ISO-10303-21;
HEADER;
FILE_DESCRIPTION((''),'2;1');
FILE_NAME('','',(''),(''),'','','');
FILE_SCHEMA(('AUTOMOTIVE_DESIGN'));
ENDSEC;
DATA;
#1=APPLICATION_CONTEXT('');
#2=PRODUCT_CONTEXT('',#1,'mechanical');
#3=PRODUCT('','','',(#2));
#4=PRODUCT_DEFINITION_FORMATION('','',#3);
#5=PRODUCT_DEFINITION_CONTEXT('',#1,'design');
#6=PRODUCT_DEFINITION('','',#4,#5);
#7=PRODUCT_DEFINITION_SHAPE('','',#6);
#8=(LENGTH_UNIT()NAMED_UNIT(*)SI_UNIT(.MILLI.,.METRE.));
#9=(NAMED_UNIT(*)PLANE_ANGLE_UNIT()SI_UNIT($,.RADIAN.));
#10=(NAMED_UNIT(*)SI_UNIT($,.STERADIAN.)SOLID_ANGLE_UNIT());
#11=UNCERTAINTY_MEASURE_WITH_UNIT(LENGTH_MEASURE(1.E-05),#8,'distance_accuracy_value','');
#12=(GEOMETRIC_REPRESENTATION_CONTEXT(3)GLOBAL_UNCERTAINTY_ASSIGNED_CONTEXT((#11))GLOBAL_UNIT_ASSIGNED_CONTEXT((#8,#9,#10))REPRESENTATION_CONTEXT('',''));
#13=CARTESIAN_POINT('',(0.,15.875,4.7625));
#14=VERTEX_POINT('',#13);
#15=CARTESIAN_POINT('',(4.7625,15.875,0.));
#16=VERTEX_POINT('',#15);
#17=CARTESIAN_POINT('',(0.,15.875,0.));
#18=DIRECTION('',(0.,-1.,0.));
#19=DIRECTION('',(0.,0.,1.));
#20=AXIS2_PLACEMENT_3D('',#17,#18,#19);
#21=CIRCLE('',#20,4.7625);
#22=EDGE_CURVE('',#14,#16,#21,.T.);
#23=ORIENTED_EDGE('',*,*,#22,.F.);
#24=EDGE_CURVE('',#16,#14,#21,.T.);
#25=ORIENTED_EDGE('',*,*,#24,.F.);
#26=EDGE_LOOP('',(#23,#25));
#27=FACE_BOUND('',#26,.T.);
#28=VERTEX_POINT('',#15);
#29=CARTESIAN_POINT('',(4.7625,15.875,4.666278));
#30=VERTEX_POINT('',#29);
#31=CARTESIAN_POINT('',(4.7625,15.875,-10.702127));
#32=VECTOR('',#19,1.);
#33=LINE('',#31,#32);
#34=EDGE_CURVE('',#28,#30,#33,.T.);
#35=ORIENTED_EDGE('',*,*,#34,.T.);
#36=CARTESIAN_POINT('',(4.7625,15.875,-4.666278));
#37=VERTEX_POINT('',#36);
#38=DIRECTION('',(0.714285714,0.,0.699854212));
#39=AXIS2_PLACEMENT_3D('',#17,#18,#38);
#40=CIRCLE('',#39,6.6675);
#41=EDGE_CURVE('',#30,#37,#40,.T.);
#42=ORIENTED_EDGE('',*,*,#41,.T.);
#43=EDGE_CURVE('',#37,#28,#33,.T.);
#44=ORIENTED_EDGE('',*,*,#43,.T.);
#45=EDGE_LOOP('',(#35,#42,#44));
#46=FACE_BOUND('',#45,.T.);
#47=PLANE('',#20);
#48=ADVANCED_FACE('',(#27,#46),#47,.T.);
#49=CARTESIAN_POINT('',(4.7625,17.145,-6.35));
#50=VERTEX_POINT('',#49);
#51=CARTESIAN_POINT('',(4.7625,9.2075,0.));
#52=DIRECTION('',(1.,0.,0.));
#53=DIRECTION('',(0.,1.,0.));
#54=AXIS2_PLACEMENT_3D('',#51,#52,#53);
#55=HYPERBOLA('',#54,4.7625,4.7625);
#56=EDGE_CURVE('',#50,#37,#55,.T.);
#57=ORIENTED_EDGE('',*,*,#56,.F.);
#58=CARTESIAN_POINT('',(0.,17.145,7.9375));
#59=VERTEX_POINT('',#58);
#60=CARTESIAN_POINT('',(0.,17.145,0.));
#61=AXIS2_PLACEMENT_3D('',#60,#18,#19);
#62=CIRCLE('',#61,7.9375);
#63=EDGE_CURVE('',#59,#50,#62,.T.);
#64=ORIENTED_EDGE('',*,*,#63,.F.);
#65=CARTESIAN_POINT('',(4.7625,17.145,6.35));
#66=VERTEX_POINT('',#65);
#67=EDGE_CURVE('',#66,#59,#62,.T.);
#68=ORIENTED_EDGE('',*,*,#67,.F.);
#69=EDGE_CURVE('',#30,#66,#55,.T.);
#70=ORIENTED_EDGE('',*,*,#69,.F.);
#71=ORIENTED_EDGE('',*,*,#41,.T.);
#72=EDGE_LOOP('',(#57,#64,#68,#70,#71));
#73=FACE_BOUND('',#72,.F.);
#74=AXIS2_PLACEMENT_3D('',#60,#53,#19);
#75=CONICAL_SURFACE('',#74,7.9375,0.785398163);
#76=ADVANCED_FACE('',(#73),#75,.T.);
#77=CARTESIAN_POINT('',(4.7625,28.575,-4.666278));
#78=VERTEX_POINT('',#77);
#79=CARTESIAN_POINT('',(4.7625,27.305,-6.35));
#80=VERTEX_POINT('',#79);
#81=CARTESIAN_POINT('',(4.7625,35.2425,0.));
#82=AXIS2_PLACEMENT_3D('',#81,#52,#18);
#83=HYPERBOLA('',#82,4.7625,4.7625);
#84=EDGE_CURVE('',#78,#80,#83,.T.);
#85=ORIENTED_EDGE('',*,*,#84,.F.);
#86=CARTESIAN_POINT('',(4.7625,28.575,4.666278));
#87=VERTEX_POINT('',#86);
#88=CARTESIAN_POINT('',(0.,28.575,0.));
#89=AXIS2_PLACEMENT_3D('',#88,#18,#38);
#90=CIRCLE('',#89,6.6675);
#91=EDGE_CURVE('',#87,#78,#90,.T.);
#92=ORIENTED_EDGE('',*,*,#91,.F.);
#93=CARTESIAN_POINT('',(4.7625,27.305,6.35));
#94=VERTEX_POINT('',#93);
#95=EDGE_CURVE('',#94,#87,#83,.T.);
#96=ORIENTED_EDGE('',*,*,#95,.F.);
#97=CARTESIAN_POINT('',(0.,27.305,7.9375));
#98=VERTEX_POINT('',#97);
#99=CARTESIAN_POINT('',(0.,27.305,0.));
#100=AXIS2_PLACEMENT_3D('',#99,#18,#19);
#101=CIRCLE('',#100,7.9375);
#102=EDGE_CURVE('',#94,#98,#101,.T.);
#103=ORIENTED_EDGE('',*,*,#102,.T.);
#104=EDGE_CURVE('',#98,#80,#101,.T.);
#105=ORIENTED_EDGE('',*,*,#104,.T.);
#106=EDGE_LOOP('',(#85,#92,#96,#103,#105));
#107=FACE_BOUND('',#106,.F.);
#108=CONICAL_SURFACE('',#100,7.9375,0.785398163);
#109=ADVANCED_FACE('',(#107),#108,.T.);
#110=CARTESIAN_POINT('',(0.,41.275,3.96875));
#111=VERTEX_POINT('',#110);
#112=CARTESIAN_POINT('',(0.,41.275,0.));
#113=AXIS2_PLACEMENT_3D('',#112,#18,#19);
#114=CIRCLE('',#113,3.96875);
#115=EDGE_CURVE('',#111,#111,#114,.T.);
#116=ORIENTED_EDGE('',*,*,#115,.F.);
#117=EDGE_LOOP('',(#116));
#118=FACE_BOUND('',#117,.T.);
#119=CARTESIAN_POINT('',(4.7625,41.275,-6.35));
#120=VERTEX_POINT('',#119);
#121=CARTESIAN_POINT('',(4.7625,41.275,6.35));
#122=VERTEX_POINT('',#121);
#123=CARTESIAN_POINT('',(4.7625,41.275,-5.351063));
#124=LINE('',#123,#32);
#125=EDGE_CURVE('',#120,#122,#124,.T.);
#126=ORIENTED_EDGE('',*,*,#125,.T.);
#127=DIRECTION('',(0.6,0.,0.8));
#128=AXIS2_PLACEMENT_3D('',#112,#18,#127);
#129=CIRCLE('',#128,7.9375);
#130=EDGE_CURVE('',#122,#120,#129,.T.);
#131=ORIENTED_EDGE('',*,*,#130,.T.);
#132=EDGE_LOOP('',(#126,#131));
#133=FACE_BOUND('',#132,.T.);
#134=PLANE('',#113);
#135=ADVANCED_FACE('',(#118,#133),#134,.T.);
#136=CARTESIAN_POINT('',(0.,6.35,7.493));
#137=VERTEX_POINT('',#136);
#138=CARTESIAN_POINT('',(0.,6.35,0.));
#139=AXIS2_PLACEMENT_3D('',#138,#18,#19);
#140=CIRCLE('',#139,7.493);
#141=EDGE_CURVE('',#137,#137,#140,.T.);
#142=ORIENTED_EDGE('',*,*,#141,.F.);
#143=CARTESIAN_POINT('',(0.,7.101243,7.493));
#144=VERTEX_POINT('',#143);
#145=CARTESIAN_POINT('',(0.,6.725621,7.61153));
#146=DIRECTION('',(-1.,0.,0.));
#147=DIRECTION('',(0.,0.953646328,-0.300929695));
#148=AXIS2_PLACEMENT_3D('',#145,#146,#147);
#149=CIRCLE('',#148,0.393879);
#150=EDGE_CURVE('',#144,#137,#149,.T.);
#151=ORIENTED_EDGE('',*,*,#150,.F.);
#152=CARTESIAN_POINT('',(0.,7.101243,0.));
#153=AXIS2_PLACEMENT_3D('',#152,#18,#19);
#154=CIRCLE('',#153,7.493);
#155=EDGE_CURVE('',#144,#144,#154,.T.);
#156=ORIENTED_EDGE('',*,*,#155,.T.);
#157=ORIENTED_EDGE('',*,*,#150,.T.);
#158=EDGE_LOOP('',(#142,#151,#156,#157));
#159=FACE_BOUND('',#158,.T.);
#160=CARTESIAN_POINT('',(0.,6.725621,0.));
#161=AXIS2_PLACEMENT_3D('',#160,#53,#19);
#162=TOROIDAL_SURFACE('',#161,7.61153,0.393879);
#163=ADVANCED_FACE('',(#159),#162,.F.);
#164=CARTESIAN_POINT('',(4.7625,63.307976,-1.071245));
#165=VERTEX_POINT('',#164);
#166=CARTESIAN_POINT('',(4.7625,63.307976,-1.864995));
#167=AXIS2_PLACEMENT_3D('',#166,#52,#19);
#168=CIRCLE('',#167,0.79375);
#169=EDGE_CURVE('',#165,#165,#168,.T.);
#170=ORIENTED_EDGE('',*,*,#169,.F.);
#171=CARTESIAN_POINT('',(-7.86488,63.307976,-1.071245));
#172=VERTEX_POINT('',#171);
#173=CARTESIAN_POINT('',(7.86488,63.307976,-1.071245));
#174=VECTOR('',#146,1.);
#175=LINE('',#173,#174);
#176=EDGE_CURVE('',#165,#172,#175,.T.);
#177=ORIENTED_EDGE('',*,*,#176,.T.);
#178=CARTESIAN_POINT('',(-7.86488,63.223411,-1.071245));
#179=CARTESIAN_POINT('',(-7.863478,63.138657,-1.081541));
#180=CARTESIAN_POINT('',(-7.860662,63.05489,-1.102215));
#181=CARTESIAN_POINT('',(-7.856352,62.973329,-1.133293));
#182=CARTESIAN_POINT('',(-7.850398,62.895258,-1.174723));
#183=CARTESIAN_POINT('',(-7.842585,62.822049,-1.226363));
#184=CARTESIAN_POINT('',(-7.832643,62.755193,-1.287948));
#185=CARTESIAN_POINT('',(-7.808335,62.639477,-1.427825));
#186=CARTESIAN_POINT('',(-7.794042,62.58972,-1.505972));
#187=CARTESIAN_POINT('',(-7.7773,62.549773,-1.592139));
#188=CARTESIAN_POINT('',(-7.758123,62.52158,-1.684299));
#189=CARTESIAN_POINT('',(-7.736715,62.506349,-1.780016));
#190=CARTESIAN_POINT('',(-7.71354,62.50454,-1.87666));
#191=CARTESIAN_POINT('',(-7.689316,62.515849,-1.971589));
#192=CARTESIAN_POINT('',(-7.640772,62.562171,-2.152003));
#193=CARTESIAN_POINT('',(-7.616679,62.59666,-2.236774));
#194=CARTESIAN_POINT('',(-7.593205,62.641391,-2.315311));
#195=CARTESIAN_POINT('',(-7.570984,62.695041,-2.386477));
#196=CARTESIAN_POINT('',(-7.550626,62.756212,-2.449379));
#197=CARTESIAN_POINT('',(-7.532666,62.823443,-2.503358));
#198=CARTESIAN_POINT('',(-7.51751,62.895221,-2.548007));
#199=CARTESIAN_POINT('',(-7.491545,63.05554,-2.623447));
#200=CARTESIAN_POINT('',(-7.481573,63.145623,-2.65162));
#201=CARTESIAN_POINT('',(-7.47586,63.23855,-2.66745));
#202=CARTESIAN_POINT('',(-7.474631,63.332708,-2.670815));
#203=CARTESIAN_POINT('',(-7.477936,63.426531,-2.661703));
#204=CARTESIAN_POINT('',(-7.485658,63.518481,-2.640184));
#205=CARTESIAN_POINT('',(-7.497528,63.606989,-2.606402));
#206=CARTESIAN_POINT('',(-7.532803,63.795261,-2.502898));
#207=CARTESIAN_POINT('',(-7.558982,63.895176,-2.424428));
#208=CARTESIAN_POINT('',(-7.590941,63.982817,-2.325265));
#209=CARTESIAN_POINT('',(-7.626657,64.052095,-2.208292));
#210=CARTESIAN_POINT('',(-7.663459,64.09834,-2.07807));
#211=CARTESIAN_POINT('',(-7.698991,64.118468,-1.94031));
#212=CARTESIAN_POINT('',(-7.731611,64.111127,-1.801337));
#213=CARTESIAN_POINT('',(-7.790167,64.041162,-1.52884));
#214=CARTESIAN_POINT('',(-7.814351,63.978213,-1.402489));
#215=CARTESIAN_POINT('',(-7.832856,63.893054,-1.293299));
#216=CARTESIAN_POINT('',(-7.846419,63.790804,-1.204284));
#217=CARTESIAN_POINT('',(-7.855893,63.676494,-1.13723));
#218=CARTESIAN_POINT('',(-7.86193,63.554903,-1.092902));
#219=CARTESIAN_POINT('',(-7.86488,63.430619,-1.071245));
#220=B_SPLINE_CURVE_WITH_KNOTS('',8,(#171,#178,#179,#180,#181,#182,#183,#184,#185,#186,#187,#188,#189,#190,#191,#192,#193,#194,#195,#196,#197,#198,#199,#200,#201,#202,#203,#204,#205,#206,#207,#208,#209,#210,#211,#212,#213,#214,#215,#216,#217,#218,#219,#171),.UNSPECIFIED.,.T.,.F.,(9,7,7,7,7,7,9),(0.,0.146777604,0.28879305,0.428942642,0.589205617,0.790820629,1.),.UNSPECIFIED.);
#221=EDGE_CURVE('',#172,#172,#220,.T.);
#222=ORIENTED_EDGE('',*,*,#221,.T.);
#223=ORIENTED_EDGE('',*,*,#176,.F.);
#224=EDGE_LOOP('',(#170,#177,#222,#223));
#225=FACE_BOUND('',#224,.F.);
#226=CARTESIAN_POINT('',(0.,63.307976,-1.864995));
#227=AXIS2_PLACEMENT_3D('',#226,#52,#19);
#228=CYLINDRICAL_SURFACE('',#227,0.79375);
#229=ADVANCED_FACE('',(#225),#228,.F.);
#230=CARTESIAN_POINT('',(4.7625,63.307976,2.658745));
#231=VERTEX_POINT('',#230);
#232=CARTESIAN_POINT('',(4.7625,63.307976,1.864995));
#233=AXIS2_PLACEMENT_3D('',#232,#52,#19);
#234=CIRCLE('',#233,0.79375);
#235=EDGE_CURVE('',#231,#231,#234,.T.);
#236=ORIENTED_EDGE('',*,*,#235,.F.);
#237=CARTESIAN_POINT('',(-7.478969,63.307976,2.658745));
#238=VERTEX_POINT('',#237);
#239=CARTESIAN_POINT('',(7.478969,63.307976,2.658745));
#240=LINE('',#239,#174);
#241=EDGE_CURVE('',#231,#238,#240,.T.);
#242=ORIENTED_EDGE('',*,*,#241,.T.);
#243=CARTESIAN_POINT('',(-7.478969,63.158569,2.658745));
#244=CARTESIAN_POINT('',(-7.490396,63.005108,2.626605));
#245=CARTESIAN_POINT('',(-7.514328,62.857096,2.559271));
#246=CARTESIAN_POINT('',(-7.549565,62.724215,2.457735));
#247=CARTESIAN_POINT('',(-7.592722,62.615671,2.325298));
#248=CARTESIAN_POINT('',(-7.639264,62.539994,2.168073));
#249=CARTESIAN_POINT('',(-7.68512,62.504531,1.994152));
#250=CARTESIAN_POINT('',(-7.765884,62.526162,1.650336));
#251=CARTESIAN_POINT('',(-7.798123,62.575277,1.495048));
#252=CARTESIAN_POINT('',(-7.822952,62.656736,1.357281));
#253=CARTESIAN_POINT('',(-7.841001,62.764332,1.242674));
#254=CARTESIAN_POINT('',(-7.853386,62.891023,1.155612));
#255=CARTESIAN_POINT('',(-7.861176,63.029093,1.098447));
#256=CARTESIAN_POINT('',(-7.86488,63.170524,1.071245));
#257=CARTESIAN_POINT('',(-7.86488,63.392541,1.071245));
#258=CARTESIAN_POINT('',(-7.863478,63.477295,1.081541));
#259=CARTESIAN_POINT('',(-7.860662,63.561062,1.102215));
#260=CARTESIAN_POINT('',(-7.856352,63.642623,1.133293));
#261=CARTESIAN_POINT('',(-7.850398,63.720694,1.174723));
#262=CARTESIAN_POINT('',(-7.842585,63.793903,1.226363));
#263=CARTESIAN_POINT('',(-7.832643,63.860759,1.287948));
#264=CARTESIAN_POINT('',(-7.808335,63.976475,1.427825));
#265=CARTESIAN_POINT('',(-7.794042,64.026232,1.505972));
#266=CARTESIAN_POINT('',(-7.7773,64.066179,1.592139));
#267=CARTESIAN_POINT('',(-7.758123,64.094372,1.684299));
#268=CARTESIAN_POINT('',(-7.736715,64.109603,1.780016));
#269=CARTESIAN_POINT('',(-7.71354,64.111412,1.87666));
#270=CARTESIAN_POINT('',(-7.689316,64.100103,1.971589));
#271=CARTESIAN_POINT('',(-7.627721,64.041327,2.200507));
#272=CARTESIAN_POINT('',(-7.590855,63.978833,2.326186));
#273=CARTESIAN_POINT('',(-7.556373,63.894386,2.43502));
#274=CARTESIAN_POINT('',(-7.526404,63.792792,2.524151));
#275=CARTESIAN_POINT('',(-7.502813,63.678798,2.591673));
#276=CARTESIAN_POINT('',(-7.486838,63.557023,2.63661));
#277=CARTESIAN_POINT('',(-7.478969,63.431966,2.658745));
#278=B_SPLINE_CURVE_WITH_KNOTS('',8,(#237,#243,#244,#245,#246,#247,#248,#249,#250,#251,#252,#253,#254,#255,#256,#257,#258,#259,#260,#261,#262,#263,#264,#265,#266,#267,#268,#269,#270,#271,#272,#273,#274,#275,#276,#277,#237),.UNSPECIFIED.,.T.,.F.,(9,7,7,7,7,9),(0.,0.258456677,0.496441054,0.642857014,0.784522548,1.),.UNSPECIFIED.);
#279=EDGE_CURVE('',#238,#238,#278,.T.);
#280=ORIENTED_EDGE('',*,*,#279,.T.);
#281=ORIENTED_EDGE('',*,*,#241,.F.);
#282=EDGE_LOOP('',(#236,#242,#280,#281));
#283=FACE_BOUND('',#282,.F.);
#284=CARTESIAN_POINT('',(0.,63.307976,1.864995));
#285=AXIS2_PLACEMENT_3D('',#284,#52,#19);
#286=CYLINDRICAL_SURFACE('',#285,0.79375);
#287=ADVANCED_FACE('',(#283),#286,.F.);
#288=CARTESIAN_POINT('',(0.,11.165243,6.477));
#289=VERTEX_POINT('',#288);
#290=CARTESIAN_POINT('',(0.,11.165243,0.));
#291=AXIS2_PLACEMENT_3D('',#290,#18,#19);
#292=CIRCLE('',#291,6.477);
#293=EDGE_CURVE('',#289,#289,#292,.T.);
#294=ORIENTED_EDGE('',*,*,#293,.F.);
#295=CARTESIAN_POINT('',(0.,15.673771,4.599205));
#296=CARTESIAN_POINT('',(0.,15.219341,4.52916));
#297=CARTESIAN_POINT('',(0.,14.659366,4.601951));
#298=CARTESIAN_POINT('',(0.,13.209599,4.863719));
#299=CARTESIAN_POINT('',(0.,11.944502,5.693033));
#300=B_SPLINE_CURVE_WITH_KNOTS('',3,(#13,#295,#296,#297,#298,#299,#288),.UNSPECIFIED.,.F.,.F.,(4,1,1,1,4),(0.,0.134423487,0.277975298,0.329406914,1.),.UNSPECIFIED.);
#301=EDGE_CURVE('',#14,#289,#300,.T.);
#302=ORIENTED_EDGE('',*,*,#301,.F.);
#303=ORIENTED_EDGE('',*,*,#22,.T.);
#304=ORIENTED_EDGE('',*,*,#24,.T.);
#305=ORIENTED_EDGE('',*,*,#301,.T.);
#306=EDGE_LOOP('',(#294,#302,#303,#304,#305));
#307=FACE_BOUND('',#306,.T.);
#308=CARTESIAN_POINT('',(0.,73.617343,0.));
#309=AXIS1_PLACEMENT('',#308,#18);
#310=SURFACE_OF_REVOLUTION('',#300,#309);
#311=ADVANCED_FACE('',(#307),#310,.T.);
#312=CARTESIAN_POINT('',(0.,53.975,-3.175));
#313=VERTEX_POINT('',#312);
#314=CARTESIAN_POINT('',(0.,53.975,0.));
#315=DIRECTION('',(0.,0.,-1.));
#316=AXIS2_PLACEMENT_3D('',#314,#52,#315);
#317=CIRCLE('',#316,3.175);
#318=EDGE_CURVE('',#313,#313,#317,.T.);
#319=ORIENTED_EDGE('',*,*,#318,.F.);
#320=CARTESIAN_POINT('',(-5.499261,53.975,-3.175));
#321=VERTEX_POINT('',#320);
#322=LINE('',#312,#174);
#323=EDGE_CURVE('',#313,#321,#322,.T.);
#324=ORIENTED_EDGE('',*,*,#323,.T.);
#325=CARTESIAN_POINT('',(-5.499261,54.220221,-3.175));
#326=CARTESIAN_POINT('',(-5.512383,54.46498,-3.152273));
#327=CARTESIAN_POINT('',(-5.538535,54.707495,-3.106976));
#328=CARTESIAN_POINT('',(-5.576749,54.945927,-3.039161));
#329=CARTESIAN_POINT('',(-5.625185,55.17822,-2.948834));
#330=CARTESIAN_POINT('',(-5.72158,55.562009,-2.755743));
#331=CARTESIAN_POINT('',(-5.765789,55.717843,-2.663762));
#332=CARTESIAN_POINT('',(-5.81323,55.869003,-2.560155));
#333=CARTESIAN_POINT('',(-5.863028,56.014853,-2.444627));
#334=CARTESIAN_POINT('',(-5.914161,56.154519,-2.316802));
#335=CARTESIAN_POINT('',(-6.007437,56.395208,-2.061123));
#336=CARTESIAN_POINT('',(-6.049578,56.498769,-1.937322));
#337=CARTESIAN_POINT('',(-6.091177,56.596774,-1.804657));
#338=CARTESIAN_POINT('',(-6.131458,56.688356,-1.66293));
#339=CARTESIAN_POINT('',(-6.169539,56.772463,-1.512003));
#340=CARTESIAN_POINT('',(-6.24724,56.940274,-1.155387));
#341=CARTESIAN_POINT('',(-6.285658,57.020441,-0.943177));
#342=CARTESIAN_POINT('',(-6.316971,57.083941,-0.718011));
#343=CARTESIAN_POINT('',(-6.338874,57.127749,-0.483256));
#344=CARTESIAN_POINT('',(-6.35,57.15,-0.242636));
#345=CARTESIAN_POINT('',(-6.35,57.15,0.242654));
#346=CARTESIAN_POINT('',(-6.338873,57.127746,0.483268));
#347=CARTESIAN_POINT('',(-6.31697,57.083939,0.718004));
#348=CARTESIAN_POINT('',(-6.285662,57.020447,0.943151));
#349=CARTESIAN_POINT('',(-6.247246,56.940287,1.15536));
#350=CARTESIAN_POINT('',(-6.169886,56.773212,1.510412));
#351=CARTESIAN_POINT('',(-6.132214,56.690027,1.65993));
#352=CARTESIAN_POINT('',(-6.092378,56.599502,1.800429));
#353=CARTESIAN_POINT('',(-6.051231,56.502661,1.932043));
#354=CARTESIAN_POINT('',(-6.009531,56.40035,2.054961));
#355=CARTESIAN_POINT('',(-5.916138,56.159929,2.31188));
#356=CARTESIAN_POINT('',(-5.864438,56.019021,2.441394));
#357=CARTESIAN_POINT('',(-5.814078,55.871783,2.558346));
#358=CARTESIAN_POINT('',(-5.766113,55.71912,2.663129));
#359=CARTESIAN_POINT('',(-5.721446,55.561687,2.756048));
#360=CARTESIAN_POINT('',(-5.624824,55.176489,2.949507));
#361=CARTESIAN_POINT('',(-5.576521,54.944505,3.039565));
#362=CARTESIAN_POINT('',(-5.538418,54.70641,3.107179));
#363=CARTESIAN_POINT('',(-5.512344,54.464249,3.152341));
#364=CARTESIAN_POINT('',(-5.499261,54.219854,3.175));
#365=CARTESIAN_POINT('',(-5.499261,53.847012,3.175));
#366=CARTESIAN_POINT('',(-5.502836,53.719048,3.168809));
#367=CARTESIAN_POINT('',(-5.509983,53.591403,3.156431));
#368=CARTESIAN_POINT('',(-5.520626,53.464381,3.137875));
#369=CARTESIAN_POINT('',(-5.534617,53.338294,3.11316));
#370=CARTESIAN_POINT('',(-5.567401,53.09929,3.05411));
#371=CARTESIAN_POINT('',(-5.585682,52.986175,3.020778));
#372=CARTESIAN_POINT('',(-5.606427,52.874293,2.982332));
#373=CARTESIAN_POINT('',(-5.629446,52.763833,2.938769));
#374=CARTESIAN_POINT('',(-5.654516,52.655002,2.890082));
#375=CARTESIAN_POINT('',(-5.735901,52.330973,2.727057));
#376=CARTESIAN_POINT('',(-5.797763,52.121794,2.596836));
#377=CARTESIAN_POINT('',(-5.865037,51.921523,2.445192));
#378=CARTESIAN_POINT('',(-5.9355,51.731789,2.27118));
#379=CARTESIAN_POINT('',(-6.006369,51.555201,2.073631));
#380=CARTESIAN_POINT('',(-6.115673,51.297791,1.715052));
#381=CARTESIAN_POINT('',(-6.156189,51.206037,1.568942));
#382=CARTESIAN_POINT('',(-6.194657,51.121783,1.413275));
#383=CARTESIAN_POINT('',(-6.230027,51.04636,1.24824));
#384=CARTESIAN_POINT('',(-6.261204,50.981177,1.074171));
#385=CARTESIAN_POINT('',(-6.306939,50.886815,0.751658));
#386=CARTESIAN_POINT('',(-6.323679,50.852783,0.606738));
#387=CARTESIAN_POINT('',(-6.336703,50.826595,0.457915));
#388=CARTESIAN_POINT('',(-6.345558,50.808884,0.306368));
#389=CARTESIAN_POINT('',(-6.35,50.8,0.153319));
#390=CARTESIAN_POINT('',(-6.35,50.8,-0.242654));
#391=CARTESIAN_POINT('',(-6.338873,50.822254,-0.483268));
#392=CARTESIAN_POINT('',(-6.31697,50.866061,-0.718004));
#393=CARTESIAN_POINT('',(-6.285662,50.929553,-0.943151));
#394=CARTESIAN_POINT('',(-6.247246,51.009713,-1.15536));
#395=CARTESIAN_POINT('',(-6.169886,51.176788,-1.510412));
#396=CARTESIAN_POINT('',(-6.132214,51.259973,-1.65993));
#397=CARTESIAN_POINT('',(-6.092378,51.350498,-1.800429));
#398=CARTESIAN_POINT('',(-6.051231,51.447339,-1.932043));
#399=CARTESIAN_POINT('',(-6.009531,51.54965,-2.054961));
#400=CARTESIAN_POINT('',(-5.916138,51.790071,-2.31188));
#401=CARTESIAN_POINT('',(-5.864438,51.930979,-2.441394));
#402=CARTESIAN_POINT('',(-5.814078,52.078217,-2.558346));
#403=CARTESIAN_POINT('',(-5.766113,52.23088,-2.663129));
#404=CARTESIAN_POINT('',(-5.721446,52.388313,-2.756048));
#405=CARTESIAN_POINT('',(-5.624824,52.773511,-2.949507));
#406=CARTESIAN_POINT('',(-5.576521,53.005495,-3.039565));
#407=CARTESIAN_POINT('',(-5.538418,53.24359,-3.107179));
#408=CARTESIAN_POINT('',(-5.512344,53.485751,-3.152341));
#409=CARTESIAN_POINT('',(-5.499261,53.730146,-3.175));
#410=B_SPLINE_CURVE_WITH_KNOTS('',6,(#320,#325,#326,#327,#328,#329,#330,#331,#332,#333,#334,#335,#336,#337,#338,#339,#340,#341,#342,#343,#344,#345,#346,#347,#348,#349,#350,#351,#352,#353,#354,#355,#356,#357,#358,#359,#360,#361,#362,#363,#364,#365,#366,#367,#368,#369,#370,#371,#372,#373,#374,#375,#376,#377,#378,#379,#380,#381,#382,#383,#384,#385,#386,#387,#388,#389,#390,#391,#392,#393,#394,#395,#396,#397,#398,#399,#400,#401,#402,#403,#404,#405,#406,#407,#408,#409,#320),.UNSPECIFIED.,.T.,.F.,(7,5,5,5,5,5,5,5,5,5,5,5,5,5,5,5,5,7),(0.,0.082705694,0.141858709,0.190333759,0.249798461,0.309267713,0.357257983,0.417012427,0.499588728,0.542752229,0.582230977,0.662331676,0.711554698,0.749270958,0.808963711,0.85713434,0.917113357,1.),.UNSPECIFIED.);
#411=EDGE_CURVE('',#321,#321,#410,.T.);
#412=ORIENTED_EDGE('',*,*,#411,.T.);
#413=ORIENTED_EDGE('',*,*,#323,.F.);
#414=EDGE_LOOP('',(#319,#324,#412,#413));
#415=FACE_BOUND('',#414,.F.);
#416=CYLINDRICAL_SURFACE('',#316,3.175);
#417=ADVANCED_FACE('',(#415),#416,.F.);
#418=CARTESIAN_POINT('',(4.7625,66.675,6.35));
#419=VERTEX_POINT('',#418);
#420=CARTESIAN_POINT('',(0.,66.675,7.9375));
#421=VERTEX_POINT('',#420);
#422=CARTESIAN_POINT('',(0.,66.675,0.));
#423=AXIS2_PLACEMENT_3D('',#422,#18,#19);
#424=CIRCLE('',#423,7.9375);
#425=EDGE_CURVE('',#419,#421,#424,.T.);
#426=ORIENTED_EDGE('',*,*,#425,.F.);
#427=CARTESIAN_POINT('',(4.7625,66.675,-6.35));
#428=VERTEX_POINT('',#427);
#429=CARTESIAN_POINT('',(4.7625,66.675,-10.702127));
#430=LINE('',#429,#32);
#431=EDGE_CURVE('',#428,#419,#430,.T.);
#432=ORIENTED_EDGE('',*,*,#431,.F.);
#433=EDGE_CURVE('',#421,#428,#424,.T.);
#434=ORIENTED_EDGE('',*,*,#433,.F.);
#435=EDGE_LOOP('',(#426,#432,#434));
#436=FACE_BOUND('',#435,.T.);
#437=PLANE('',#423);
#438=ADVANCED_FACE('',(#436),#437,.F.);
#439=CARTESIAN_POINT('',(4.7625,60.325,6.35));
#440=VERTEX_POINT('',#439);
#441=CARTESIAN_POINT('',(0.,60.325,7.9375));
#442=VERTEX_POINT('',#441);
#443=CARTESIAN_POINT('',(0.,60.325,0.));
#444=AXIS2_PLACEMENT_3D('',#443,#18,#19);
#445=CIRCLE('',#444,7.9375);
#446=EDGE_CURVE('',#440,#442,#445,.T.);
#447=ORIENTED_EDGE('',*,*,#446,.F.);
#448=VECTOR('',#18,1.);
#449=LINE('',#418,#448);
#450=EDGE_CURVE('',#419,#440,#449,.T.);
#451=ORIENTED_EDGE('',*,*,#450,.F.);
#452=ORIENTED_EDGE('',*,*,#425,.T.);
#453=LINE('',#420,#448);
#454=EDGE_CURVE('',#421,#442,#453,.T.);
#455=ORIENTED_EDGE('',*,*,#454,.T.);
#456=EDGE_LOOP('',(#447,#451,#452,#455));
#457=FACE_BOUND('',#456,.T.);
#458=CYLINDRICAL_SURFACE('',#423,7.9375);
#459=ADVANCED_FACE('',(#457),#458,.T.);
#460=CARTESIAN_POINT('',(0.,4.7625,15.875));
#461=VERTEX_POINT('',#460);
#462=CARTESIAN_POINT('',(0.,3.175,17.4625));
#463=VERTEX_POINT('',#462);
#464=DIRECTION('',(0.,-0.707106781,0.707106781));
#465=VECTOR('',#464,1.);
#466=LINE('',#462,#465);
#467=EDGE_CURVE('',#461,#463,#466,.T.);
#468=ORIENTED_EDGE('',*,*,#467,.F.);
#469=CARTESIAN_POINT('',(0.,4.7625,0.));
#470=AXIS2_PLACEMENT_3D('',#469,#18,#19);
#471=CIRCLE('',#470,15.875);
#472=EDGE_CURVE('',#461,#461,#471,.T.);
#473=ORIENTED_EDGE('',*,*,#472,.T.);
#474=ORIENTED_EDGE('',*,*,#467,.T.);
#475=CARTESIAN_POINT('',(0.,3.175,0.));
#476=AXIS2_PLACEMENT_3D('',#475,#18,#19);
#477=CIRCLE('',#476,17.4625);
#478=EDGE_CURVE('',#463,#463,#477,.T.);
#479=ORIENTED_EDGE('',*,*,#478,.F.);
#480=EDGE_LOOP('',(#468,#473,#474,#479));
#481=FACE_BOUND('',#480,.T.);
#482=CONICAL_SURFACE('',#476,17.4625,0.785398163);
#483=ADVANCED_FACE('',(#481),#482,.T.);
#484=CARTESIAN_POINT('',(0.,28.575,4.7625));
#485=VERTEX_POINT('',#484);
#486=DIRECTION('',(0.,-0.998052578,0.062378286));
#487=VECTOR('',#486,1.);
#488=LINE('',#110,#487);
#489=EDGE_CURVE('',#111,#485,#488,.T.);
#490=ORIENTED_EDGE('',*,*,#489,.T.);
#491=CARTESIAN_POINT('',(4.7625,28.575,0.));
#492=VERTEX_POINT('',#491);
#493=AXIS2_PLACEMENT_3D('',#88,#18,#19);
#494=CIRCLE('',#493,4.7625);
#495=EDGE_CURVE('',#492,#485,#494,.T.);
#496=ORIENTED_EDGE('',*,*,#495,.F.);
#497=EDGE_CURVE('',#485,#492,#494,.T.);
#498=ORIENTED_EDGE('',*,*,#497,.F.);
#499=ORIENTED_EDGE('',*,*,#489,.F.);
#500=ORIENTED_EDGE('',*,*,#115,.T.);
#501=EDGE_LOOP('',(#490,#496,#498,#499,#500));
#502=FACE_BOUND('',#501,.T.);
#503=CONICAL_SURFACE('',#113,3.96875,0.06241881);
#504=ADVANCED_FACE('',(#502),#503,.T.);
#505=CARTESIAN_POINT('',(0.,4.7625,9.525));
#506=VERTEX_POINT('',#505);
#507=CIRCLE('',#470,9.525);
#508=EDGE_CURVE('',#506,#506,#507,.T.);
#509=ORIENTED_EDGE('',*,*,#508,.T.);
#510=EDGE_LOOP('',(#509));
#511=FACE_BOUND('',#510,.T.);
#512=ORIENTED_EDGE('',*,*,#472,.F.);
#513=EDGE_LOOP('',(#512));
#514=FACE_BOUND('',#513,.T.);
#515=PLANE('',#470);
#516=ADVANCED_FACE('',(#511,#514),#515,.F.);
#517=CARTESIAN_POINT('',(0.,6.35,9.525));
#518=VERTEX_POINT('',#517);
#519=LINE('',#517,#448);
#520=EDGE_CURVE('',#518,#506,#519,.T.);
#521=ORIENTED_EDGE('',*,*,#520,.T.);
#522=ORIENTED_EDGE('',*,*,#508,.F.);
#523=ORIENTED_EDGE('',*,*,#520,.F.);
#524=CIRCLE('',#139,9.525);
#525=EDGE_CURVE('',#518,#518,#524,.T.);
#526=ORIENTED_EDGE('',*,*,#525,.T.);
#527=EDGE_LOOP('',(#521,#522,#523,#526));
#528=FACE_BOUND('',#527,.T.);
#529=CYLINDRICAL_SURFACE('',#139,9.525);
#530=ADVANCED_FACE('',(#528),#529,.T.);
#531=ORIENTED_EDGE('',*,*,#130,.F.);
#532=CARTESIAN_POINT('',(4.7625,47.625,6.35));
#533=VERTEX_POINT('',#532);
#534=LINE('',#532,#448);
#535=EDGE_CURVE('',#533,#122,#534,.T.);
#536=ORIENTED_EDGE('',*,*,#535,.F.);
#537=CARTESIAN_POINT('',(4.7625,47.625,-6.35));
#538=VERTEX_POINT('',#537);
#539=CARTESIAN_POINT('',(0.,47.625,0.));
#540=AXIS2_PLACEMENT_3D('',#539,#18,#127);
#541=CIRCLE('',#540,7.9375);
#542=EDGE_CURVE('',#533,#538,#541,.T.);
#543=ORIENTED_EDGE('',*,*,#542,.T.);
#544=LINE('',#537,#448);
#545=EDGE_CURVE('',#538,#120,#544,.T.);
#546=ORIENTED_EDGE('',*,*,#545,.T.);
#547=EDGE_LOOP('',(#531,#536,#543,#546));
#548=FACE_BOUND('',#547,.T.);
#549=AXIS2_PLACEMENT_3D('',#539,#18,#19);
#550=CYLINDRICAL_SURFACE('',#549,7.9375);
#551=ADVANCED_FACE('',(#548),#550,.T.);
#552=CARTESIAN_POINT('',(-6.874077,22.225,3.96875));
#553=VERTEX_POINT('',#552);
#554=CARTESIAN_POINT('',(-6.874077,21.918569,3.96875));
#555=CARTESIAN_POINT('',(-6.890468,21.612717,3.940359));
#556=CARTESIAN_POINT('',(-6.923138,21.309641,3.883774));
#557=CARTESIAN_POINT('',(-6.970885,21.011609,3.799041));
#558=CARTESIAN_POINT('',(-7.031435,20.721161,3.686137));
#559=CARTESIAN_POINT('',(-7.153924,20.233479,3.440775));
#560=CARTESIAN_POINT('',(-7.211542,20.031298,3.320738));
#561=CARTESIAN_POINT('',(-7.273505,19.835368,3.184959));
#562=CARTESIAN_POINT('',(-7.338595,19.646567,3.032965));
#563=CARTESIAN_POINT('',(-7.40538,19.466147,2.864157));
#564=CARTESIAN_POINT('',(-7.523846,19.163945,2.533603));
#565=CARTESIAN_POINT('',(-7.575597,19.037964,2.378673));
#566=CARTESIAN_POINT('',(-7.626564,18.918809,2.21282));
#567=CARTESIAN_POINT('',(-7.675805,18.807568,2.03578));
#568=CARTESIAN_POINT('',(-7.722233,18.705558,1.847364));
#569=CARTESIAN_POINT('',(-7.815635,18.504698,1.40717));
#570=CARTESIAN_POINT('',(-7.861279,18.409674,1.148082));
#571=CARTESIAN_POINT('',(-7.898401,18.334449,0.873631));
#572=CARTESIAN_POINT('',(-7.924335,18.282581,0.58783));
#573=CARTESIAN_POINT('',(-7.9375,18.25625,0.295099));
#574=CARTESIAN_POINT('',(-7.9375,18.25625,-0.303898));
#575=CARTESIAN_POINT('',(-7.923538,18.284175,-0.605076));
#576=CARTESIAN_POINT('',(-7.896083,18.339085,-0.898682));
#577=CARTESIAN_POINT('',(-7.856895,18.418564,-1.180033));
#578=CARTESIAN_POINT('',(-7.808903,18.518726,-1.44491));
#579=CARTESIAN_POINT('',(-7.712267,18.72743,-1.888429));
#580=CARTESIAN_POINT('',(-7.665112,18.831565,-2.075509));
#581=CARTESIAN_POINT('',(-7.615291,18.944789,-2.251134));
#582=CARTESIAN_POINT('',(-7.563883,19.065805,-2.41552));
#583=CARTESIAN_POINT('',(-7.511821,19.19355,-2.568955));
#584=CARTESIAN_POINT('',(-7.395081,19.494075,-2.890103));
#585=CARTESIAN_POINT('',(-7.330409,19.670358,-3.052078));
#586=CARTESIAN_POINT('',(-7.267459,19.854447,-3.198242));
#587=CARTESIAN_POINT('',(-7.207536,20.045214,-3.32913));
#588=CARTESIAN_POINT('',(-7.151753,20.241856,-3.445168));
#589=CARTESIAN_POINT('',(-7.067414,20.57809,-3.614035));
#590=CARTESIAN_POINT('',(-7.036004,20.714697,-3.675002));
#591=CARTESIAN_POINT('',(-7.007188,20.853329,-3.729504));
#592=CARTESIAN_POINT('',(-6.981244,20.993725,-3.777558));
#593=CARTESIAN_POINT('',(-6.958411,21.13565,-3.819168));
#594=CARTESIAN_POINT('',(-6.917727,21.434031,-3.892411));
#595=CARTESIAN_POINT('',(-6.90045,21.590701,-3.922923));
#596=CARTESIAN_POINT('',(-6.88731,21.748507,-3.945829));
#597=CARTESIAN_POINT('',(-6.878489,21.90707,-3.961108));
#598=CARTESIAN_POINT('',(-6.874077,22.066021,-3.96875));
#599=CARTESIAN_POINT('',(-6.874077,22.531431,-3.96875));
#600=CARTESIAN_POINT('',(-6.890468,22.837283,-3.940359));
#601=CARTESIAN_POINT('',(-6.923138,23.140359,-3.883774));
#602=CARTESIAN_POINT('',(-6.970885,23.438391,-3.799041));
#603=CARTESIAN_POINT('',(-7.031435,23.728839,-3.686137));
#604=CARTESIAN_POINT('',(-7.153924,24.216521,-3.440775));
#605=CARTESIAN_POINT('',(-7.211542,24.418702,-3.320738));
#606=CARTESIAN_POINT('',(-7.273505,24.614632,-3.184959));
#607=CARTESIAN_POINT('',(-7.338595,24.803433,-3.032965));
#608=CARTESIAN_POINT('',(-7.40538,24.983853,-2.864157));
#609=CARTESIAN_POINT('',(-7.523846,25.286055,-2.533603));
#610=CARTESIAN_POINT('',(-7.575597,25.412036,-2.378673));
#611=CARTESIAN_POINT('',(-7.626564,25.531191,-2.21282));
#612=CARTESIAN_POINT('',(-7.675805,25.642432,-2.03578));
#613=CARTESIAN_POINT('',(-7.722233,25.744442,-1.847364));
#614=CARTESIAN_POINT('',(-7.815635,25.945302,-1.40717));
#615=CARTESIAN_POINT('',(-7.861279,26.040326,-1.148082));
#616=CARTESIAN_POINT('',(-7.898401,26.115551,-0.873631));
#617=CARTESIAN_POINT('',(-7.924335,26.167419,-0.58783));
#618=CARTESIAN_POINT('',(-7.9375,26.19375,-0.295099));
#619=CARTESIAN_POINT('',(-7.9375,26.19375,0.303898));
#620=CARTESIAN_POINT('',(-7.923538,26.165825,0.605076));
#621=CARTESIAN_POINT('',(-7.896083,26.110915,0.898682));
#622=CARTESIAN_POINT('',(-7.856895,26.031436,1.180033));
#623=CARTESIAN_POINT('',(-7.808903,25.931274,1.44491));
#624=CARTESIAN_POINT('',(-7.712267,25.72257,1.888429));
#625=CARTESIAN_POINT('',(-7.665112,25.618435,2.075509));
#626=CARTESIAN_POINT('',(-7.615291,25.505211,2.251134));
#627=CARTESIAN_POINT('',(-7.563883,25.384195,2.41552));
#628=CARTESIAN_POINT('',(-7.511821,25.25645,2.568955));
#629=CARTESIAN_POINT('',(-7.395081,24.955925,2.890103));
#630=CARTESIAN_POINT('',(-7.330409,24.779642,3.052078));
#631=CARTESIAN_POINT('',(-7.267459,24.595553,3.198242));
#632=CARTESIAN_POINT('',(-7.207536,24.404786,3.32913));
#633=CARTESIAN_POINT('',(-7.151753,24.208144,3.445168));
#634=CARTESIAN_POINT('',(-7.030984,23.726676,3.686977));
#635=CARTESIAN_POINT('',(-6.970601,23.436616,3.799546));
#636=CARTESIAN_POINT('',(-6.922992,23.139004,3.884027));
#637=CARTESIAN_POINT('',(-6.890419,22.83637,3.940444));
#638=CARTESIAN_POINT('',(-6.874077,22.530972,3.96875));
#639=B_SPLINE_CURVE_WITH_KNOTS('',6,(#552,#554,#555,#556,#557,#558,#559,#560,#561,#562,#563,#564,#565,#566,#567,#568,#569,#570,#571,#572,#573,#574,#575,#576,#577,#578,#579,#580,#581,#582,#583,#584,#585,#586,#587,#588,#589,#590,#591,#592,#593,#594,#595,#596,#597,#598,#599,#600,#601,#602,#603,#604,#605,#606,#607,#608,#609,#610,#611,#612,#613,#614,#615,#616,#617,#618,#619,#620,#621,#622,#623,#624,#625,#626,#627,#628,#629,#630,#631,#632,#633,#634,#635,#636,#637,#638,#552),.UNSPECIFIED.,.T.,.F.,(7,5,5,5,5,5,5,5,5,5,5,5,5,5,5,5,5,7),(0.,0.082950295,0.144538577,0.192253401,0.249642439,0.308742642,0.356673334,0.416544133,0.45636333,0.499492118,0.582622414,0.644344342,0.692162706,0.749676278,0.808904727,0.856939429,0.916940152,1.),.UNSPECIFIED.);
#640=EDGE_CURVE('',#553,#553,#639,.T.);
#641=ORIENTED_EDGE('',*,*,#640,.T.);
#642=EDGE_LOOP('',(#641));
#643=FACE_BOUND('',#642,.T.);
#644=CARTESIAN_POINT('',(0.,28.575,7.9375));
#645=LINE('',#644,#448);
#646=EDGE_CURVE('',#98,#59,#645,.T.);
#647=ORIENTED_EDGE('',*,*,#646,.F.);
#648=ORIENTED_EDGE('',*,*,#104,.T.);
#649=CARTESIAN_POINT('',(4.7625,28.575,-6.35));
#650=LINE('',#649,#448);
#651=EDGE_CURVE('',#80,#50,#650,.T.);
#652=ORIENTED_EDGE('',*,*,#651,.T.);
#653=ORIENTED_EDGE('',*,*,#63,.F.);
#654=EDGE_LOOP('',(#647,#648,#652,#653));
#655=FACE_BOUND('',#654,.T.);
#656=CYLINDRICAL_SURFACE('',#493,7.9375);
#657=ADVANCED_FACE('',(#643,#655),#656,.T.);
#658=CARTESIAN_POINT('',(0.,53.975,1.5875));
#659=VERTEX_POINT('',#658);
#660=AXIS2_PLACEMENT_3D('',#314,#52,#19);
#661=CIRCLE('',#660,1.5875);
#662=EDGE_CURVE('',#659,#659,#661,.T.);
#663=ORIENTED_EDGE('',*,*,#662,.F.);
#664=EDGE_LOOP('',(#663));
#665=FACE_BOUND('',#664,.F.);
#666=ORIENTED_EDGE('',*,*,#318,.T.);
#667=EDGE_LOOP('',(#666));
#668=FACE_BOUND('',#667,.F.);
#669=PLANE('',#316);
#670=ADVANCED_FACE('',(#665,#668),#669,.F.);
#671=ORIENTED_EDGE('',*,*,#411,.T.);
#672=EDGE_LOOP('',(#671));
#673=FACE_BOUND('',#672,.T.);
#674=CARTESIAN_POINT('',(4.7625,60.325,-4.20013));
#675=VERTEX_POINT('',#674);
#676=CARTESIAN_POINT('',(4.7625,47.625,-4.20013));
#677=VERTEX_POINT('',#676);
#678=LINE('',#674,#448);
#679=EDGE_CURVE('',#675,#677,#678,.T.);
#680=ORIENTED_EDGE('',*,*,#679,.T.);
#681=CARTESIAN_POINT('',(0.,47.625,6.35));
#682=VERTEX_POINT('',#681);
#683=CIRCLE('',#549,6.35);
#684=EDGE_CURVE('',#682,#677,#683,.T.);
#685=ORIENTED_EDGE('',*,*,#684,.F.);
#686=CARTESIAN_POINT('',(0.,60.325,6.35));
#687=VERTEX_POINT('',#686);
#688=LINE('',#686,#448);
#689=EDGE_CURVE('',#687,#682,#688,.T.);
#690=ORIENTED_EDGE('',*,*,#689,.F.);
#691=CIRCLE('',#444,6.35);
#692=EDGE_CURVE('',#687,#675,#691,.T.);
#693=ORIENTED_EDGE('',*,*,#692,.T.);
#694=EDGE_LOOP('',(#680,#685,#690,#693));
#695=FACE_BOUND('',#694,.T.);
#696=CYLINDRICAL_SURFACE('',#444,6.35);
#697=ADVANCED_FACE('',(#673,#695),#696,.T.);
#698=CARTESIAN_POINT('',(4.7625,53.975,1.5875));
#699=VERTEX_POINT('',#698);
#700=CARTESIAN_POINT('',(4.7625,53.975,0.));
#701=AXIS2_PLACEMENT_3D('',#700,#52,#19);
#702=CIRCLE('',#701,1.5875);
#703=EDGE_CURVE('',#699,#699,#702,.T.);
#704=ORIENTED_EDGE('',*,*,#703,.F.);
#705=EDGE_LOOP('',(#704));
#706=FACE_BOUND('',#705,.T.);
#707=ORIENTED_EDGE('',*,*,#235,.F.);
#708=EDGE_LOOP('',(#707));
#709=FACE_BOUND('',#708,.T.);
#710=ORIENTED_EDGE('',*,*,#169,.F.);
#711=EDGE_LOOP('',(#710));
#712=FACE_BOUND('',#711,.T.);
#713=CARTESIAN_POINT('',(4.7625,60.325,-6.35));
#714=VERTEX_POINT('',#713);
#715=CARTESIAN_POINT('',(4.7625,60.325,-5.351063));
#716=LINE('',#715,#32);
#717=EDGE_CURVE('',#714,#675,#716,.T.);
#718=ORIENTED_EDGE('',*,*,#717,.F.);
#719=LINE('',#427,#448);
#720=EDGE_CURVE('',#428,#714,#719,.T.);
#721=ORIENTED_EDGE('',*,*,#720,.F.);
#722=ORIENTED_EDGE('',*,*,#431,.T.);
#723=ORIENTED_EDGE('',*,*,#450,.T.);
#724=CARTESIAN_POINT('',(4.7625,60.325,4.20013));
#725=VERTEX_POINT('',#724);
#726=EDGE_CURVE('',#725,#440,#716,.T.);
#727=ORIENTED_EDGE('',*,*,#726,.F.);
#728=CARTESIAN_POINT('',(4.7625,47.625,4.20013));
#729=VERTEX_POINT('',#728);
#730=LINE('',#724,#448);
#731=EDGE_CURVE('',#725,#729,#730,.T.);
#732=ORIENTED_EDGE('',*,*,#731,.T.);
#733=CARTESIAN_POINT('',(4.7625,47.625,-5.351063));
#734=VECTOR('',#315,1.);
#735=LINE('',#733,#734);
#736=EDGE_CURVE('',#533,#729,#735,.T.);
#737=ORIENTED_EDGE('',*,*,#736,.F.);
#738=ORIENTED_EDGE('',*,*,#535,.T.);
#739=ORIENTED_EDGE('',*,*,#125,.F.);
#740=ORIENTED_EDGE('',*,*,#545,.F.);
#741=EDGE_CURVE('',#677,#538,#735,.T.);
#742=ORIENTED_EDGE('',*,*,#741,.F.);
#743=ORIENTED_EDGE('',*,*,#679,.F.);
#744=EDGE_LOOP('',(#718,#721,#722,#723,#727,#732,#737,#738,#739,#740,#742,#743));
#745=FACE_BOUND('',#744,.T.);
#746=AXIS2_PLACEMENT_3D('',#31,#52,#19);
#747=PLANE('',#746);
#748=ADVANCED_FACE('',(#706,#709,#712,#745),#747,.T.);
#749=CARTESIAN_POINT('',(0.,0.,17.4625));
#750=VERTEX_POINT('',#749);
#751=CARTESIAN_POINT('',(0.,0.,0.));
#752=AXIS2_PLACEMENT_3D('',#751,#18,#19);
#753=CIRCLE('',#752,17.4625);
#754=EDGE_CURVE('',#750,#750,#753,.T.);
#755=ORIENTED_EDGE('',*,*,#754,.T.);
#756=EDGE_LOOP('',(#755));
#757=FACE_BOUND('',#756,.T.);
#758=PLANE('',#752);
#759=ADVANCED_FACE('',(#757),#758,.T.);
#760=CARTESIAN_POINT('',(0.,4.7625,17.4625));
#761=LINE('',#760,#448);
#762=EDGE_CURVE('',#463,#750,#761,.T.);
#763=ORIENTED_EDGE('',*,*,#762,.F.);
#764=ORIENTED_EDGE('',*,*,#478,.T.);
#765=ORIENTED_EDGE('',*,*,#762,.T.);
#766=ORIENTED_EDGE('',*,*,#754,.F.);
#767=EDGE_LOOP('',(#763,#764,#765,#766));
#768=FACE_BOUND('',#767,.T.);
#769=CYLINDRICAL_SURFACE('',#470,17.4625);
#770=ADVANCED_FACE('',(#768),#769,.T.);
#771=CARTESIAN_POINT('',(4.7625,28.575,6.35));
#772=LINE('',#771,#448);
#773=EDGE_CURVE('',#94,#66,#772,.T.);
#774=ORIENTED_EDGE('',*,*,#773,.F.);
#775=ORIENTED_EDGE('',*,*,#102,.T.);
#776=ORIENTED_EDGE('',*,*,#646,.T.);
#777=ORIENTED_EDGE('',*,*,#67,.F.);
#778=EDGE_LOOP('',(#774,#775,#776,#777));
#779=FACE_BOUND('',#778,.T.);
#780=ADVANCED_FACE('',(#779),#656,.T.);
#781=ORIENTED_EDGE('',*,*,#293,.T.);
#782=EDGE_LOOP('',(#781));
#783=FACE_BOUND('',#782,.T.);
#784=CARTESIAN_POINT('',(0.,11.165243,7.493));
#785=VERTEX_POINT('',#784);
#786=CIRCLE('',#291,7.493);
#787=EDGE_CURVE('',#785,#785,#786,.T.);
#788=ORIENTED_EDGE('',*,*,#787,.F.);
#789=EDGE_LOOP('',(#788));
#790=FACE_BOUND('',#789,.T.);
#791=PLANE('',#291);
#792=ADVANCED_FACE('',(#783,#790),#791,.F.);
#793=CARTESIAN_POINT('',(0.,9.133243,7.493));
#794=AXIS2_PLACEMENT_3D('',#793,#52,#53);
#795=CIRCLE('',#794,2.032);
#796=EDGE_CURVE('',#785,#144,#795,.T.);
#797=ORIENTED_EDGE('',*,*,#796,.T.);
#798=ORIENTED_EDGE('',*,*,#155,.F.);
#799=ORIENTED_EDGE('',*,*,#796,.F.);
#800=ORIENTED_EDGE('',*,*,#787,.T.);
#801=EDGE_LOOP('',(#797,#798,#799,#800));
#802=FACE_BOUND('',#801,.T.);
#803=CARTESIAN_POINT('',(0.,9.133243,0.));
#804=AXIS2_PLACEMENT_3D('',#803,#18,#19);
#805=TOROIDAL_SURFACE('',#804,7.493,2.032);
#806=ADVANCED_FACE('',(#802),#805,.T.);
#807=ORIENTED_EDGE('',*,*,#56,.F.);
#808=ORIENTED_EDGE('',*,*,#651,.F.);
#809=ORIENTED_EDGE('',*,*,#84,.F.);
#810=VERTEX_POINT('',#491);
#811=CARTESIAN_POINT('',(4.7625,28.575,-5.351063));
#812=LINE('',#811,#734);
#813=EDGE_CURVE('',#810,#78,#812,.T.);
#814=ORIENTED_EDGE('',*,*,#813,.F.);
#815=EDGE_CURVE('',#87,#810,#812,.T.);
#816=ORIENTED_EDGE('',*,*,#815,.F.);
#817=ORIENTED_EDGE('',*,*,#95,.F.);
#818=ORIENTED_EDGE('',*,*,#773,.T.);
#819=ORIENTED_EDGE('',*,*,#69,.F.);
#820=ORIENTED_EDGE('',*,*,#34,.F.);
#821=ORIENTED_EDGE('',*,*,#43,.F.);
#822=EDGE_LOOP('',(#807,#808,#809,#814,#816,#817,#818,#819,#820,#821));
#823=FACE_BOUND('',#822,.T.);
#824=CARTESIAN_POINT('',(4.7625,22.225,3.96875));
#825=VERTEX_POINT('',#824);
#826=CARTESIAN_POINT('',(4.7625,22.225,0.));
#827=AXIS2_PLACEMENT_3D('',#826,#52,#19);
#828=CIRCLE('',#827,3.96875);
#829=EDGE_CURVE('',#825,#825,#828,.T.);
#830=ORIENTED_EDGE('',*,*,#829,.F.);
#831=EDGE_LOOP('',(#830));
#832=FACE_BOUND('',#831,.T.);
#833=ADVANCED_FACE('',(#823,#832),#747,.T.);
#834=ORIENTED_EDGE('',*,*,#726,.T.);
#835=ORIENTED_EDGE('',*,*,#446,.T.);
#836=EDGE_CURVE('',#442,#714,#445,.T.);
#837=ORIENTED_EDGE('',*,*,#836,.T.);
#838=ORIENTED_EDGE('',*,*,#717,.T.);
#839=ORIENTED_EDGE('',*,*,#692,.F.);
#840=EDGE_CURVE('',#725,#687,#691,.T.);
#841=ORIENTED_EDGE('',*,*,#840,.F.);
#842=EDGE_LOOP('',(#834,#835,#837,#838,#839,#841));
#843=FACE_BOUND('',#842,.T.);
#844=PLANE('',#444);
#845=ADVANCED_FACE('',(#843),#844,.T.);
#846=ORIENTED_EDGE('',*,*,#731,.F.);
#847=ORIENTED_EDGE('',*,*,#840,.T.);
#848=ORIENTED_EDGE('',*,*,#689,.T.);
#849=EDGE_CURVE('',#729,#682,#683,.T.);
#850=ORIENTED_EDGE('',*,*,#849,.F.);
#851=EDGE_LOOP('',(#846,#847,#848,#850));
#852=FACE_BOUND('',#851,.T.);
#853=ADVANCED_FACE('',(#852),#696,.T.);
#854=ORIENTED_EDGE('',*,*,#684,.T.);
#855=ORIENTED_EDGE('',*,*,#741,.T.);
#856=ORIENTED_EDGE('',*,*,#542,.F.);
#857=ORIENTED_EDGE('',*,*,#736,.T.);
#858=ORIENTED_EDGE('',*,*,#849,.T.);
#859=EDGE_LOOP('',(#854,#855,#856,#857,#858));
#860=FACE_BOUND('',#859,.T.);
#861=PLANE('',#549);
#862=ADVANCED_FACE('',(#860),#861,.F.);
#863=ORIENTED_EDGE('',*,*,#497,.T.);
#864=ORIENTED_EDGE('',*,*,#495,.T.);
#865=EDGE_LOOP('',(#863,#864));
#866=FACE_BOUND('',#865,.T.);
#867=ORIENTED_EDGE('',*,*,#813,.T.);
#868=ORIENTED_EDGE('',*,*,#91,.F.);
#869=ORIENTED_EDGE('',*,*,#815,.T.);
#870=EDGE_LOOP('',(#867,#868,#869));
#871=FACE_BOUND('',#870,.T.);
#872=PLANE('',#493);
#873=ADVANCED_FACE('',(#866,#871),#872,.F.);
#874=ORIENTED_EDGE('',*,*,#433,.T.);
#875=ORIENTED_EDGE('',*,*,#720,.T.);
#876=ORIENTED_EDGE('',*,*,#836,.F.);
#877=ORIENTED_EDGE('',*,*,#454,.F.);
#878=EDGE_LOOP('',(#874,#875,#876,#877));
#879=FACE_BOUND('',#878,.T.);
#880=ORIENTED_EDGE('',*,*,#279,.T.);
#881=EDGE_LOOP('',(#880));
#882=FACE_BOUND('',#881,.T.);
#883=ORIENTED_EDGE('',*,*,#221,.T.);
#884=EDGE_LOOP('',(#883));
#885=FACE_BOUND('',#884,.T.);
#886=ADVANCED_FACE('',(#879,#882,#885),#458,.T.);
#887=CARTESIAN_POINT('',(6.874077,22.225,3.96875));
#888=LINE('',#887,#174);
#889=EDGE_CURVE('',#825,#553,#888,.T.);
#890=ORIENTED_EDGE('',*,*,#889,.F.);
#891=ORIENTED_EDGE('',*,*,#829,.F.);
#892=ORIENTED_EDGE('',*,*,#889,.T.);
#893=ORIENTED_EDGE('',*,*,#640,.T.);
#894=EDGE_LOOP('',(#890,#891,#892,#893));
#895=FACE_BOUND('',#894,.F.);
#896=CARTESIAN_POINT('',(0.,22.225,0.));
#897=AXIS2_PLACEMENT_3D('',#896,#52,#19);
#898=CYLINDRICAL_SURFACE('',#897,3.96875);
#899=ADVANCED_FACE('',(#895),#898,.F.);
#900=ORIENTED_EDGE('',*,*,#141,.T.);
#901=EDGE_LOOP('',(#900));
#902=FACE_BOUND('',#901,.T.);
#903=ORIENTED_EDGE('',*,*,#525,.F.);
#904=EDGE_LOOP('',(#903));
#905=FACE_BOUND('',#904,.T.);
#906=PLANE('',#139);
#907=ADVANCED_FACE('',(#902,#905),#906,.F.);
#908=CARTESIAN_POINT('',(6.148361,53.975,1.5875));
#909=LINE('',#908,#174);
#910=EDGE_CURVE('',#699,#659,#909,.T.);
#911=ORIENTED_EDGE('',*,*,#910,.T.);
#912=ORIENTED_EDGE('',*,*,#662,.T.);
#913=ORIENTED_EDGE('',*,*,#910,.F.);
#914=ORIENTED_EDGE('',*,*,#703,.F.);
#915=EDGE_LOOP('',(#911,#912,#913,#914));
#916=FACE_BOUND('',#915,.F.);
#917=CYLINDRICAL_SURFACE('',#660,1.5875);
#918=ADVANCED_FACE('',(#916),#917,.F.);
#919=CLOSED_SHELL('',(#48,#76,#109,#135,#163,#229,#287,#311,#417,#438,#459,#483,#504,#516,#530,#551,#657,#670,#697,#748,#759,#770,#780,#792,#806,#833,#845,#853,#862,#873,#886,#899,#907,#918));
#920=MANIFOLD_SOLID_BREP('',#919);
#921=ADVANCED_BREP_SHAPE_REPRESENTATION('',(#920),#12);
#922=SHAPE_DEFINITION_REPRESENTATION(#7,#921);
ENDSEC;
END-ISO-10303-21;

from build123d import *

# Parameters (mm, degrees)
CHAMFER1_SIZE                  = 1.5875
CHAMFER2_SIZE                  = 1.27
CUT_EXTRUDE4_REACH             = 73.102
SKETCH2_R                      = 3.96875
SKETCH2_R_2                    = 1.5875
SKETCH2_R_3                    = 0.79375
CUT_EXTRUDE4_DIRECTION_2_REACH = 73.102
CUT_EXTRUDE5_REACH             = 73.102
CUT_EXTRUDE5_END_RADIUS        = 6.35
SKETCH3_R                      = 3.175
CUT_EXTRUDE7_START             = -50.8
CUT_EXTRUDE7_DEPTH             = 50.8


with BuildPart() as part:
    # Sketch1 → Revolve1 (revolve)
    with BuildSketch(Plane(origin=(0, 0, 0), x_dir=(0, 0, -1), z_dir=(1, 0, 0))):
        Polygon((0, 41.275), (0, 66.675), (-7.9375, 66.675), (-7.9375, 60.325), (-6.35, 60.325), (-6.35, 47.625), (-7.9375, 47.625), (-7.9375, 41.275), (-3.96875, 41.275), align=None)
        Polygon((0, 28.575), (0, 41.275), (-3.96875, 41.275), (-4.7625, 28.575), align=None)
        Polygon((0, 15.875), (0, 28.575), (-4.7625, 28.575), (-7.9375, 28.575), (-7.9375, 15.875), (-7.493, 15.875), (-4.7625, 15.875), align=None)
        with BuildLine():
            Line((0, 11.165242708), (0, 15.875))
            Line((0, 15.875), (-4.7625, 15.875))
            add(Edge.make_bspline(
                [(-4.7625, 15.875), (-4.599205469, 15.673771419), (-4.529160375, 15.219340562), (-4.601951333, 14.659365635), (-4.863719246, 13.209599289), (-5.693032567, 11.944502432), (-6.477, 11.165242708)],
                knots=[0, 0, 0, 0, 0.134423487, 0.277975298, 0.329406914, 1, 1, 1, 1], degree=3))
            Line((-6.477, 11.165242708), (0, 11.165242708))
        make_face()
        with BuildLine():
            Line((0, 6.35), (0, 11.165242708))
            Line((0, 11.165242708), (-6.477, 11.165242708))
            Line((-6.477, 11.165242708), (-7.493, 11.165242708))
            ThreePointArc((-7.493, 11.165242708), (-9.525, 9.133242708), (-7.493, 7.101242708))
            ThreePointArc((-7.493, 7.101242708), (-7.21765082, 6.725621354), (-7.493, 6.35))
            Line((-7.493, 6.35), (0, 6.35))
        make_face()
        Polygon((0, 4.7625), (0, 6.35), (-7.493, 6.35), (-9.525, 6.35), (-9.525, 4.7625), align=None)
        Polygon((0, 0), (0, 4.7625), (-9.525, 4.7625), (-17.4625, 4.7625), (-17.4625, 0), align=None)
    revolve(axis=Axis((0, 73.617342774, 0), (0, -1, 0)))

    # Chamfer1
    chamfer1_edges = [part.edges().sort_by_distance(p)[0] for p in [
        (0, 4.7625, -17.4625),
    ]]
    chamfer(chamfer1_edges, length=CHAMFER1_SIZE)

    # Chamfer2
    chamfer2_edges = [part.edges().sort_by_distance(p)[0] for p in [
        (0, 15.875, -7.9375),
        (0, 28.575, -7.9375),
    ]]
    chamfer(chamfer2_edges, length=CHAMFER2_SIZE)

    # Sketch2 → Cut-Extrude4 (cut, up to next)
    with BuildSketch(Plane(origin=(0, 0, 0), x_dir=(0, 0, -1), z_dir=(1, 0, 0)), mode=Mode.PRIVATE) as cut_extrude4_sk1:
        with Locations(Location((0, 22.225, 0), (0, 0, 180))):
            Circle(SKETCH2_R)
    cut_extrude4_tool1 = extrude(cut_extrude4_sk1.sketch, amount=-CUT_EXTRUDE4_REACH, mode=Mode.PRIVATE) & part.part
    # Sketch2 → Cut-Extrude4 (cut, up to next)
    with BuildSketch(Plane(origin=(0, 0, 0), x_dir=(0, 0, -1), z_dir=(1, 0, 0)), mode=Mode.PRIVATE) as cut_extrude4_sk2:
        with Locations(Location((0, 53.975, 0), (0, 0, 180))):
            Circle(SKETCH2_R_2)
    cut_extrude4_tool2 = extrude(cut_extrude4_sk2.sketch, amount=-CUT_EXTRUDE4_REACH, mode=Mode.PRIVATE) & part.part
    # Sketch2 → Cut-Extrude4 (cut, up to next)
    with BuildSketch(Plane(origin=(0, 0, 0), x_dir=(0, 0, -1), z_dir=(1, 0, 0)), mode=Mode.PRIVATE) as cut_extrude4_sk3:
        with Locations(Location((-1.864995, 63.307976, 0), (0, 0, 180))):
            Circle(SKETCH2_R_3)
    cut_extrude4_tool3 = extrude(cut_extrude4_sk3.sketch, amount=-CUT_EXTRUDE4_REACH, mode=Mode.PRIVATE) & part.part
    # Sketch2 → Cut-Extrude4 (cut, up to next)
    with BuildSketch(Plane(origin=(0, 0, 0), x_dir=(0, 0, -1), z_dir=(1, 0, 0)), mode=Mode.PRIVATE) as cut_extrude4_sk4:
        with Locations(Location((1.864995, 63.307976, 0), (0, 0, 180))):
            Circle(SKETCH2_R_3)
    cut_extrude4_tool4 = extrude(cut_extrude4_sk4.sketch, amount=-CUT_EXTRUDE4_REACH, mode=Mode.PRIVATE) & part.part
    add(cut_extrude4_tool1.solids().sort_by_distance((0, 22.225, 0))[0], mode=Mode.SUBTRACT)
    add(cut_extrude4_tool2.solids().sort_by_distance((0, 53.975, 0))[0], mode=Mode.SUBTRACT)
    add(cut_extrude4_tool3.solids().sort_by_distance((0, 63.307976, 1.864995))[0], mode=Mode.SUBTRACT)
    add(cut_extrude4_tool4.solids().sort_by_distance((0, 63.307976, -1.864995))[0], mode=Mode.SUBTRACT)

    # Sketch2 → Cut-Extrude4 direction 2 (cut, up to next)
    with BuildSketch(Plane(origin=(0, 0, 0), x_dir=(0, 0, -1), z_dir=(1, 0, 0)), mode=Mode.PRIVATE) as cut_extrude4_direction_2_sk1:
        with Locations(Location((0, 22.225, 0), (0, 0, 180))):
            Circle(SKETCH2_R)
    cut_extrude4_direction_2_tool1 = extrude(cut_extrude4_direction_2_sk1.sketch, amount=CUT_EXTRUDE4_DIRECTION_2_REACH, mode=Mode.PRIVATE) & part.part
    # Sketch2 → Cut-Extrude4 direction 2 (cut, up to next)
    with BuildSketch(Plane(origin=(0, 0, 0), x_dir=(0, 0, -1), z_dir=(1, 0, 0)), mode=Mode.PRIVATE) as cut_extrude4_direction_2_sk2:
        with Locations(Location((0, 53.975, 0), (0, 0, 180))):
            Circle(SKETCH2_R_2)
    cut_extrude4_direction_2_tool2 = extrude(cut_extrude4_direction_2_sk2.sketch, amount=CUT_EXTRUDE4_DIRECTION_2_REACH, mode=Mode.PRIVATE) & part.part
    # Sketch2 → Cut-Extrude4 direction 2 (cut, up to next)
    with BuildSketch(Plane(origin=(0, 0, 0), x_dir=(0, 0, -1), z_dir=(1, 0, 0)), mode=Mode.PRIVATE) as cut_extrude4_direction_2_sk3:
        with Locations(Location((-1.864995, 63.307976, 0), (0, 0, 180))):
            Circle(SKETCH2_R_3)
    cut_extrude4_direction_2_tool3 = extrude(cut_extrude4_direction_2_sk3.sketch, amount=CUT_EXTRUDE4_DIRECTION_2_REACH, mode=Mode.PRIVATE) & part.part
    # Sketch2 → Cut-Extrude4 direction 2 (cut, up to next)
    with BuildSketch(Plane(origin=(0, 0, 0), x_dir=(0, 0, -1), z_dir=(1, 0, 0)), mode=Mode.PRIVATE) as cut_extrude4_direction_2_sk4:
        with Locations(Location((1.864995, 63.307976, 0), (0, 0, 180))):
            Circle(SKETCH2_R_3)
    cut_extrude4_direction_2_tool4 = extrude(cut_extrude4_direction_2_sk4.sketch, amount=CUT_EXTRUDE4_DIRECTION_2_REACH, mode=Mode.PRIVATE) & part.part
    add(cut_extrude4_direction_2_tool1.solids().sort_by_distance((0, 22.225, 0))[0], mode=Mode.SUBTRACT)
    add(cut_extrude4_direction_2_tool2.solids().sort_by_distance((0, 53.975, 0))[0], mode=Mode.SUBTRACT)
    add(cut_extrude4_direction_2_tool3.solids().sort_by_distance((0, 63.307976, 1.864995))[0], mode=Mode.SUBTRACT)
    add(cut_extrude4_direction_2_tool4.solids().sort_by_distance((0, 63.307976, -1.864995))[0], mode=Mode.SUBTRACT)

    # Cut-Extrude5: up to this cylinder (the profile starts inside it)
    cut_extrude5_end = Plane(origin=(0, 53.975, 0), z_dir=(0, 1, 0)) * Cylinder(CUT_EXTRUDE5_END_RADIUS, 159.904, mode=Mode.PRIVATE)
    # Sketch3 → Cut-Extrude5 (cut, up to the surface)
    with BuildSketch(Plane(origin=(0, 0, 0), x_dir=(0, 0, -1), z_dir=(1, 0, 0)), mode=Mode.PRIVATE) as cut_extrude5_sk1:
        with Locations((0, 53.975)):
            Circle(SKETCH3_R)
    cut_extrude5_tool1 = extrude(cut_extrude5_sk1.sketch, amount=-CUT_EXTRUDE5_REACH, mode=Mode.PRIVATE) & cut_extrude5_end
    add(cut_extrude5_tool1.solids().sort_by_distance((0, 53.975, 0))[0], mode=Mode.SUBTRACT)

    # Sketch5 → Cut-Extrude7 (cut)
    with BuildSketch(Plane(origin=(0, 66.675, 0), x_dir=(1, 0, 0), z_dir=(0, 1, 0)).offset(CUT_EXTRUDE7_START)):
        with BuildLine():
            Line((4.7625, 10.702126501), (4.7625, 6.35))
            ThreePointArc((4.7625, 6.35), (7.099515829, 3.549757914), (7.9375, 0))
            Line((7.9375, 0), (7.9375, 10.702126501))
            Line((7.9375, 10.702126501), (4.7625, 10.702126501))
        make_face()
        with BuildLine():
            ThreePointArc((7.9375, 0), (7.099515829, 3.549757914), (4.7625, 6.35))
            Line((4.7625, 6.35), (4.7625, -6.35))
            ThreePointArc((4.7625, -6.35), (7.099515829, -3.549757914), (7.9375, 0))
        make_face()
        with BuildLine():
            ThreePointArc((7.9375, 0), (7.099515829, -3.549757914), (4.7625, -6.35))
            Line((4.7625, -6.35), (4.7625, -10.274895902))
            Line((4.7625, -10.274895902), (7.9375, -10.274895902))
            Line((7.9375, -10.274895902), (7.9375, 0))
        make_face()
    extrude(amount=CUT_EXTRUDE7_DEPTH, mode=Mode.SUBTRACT)


solid = part.part
